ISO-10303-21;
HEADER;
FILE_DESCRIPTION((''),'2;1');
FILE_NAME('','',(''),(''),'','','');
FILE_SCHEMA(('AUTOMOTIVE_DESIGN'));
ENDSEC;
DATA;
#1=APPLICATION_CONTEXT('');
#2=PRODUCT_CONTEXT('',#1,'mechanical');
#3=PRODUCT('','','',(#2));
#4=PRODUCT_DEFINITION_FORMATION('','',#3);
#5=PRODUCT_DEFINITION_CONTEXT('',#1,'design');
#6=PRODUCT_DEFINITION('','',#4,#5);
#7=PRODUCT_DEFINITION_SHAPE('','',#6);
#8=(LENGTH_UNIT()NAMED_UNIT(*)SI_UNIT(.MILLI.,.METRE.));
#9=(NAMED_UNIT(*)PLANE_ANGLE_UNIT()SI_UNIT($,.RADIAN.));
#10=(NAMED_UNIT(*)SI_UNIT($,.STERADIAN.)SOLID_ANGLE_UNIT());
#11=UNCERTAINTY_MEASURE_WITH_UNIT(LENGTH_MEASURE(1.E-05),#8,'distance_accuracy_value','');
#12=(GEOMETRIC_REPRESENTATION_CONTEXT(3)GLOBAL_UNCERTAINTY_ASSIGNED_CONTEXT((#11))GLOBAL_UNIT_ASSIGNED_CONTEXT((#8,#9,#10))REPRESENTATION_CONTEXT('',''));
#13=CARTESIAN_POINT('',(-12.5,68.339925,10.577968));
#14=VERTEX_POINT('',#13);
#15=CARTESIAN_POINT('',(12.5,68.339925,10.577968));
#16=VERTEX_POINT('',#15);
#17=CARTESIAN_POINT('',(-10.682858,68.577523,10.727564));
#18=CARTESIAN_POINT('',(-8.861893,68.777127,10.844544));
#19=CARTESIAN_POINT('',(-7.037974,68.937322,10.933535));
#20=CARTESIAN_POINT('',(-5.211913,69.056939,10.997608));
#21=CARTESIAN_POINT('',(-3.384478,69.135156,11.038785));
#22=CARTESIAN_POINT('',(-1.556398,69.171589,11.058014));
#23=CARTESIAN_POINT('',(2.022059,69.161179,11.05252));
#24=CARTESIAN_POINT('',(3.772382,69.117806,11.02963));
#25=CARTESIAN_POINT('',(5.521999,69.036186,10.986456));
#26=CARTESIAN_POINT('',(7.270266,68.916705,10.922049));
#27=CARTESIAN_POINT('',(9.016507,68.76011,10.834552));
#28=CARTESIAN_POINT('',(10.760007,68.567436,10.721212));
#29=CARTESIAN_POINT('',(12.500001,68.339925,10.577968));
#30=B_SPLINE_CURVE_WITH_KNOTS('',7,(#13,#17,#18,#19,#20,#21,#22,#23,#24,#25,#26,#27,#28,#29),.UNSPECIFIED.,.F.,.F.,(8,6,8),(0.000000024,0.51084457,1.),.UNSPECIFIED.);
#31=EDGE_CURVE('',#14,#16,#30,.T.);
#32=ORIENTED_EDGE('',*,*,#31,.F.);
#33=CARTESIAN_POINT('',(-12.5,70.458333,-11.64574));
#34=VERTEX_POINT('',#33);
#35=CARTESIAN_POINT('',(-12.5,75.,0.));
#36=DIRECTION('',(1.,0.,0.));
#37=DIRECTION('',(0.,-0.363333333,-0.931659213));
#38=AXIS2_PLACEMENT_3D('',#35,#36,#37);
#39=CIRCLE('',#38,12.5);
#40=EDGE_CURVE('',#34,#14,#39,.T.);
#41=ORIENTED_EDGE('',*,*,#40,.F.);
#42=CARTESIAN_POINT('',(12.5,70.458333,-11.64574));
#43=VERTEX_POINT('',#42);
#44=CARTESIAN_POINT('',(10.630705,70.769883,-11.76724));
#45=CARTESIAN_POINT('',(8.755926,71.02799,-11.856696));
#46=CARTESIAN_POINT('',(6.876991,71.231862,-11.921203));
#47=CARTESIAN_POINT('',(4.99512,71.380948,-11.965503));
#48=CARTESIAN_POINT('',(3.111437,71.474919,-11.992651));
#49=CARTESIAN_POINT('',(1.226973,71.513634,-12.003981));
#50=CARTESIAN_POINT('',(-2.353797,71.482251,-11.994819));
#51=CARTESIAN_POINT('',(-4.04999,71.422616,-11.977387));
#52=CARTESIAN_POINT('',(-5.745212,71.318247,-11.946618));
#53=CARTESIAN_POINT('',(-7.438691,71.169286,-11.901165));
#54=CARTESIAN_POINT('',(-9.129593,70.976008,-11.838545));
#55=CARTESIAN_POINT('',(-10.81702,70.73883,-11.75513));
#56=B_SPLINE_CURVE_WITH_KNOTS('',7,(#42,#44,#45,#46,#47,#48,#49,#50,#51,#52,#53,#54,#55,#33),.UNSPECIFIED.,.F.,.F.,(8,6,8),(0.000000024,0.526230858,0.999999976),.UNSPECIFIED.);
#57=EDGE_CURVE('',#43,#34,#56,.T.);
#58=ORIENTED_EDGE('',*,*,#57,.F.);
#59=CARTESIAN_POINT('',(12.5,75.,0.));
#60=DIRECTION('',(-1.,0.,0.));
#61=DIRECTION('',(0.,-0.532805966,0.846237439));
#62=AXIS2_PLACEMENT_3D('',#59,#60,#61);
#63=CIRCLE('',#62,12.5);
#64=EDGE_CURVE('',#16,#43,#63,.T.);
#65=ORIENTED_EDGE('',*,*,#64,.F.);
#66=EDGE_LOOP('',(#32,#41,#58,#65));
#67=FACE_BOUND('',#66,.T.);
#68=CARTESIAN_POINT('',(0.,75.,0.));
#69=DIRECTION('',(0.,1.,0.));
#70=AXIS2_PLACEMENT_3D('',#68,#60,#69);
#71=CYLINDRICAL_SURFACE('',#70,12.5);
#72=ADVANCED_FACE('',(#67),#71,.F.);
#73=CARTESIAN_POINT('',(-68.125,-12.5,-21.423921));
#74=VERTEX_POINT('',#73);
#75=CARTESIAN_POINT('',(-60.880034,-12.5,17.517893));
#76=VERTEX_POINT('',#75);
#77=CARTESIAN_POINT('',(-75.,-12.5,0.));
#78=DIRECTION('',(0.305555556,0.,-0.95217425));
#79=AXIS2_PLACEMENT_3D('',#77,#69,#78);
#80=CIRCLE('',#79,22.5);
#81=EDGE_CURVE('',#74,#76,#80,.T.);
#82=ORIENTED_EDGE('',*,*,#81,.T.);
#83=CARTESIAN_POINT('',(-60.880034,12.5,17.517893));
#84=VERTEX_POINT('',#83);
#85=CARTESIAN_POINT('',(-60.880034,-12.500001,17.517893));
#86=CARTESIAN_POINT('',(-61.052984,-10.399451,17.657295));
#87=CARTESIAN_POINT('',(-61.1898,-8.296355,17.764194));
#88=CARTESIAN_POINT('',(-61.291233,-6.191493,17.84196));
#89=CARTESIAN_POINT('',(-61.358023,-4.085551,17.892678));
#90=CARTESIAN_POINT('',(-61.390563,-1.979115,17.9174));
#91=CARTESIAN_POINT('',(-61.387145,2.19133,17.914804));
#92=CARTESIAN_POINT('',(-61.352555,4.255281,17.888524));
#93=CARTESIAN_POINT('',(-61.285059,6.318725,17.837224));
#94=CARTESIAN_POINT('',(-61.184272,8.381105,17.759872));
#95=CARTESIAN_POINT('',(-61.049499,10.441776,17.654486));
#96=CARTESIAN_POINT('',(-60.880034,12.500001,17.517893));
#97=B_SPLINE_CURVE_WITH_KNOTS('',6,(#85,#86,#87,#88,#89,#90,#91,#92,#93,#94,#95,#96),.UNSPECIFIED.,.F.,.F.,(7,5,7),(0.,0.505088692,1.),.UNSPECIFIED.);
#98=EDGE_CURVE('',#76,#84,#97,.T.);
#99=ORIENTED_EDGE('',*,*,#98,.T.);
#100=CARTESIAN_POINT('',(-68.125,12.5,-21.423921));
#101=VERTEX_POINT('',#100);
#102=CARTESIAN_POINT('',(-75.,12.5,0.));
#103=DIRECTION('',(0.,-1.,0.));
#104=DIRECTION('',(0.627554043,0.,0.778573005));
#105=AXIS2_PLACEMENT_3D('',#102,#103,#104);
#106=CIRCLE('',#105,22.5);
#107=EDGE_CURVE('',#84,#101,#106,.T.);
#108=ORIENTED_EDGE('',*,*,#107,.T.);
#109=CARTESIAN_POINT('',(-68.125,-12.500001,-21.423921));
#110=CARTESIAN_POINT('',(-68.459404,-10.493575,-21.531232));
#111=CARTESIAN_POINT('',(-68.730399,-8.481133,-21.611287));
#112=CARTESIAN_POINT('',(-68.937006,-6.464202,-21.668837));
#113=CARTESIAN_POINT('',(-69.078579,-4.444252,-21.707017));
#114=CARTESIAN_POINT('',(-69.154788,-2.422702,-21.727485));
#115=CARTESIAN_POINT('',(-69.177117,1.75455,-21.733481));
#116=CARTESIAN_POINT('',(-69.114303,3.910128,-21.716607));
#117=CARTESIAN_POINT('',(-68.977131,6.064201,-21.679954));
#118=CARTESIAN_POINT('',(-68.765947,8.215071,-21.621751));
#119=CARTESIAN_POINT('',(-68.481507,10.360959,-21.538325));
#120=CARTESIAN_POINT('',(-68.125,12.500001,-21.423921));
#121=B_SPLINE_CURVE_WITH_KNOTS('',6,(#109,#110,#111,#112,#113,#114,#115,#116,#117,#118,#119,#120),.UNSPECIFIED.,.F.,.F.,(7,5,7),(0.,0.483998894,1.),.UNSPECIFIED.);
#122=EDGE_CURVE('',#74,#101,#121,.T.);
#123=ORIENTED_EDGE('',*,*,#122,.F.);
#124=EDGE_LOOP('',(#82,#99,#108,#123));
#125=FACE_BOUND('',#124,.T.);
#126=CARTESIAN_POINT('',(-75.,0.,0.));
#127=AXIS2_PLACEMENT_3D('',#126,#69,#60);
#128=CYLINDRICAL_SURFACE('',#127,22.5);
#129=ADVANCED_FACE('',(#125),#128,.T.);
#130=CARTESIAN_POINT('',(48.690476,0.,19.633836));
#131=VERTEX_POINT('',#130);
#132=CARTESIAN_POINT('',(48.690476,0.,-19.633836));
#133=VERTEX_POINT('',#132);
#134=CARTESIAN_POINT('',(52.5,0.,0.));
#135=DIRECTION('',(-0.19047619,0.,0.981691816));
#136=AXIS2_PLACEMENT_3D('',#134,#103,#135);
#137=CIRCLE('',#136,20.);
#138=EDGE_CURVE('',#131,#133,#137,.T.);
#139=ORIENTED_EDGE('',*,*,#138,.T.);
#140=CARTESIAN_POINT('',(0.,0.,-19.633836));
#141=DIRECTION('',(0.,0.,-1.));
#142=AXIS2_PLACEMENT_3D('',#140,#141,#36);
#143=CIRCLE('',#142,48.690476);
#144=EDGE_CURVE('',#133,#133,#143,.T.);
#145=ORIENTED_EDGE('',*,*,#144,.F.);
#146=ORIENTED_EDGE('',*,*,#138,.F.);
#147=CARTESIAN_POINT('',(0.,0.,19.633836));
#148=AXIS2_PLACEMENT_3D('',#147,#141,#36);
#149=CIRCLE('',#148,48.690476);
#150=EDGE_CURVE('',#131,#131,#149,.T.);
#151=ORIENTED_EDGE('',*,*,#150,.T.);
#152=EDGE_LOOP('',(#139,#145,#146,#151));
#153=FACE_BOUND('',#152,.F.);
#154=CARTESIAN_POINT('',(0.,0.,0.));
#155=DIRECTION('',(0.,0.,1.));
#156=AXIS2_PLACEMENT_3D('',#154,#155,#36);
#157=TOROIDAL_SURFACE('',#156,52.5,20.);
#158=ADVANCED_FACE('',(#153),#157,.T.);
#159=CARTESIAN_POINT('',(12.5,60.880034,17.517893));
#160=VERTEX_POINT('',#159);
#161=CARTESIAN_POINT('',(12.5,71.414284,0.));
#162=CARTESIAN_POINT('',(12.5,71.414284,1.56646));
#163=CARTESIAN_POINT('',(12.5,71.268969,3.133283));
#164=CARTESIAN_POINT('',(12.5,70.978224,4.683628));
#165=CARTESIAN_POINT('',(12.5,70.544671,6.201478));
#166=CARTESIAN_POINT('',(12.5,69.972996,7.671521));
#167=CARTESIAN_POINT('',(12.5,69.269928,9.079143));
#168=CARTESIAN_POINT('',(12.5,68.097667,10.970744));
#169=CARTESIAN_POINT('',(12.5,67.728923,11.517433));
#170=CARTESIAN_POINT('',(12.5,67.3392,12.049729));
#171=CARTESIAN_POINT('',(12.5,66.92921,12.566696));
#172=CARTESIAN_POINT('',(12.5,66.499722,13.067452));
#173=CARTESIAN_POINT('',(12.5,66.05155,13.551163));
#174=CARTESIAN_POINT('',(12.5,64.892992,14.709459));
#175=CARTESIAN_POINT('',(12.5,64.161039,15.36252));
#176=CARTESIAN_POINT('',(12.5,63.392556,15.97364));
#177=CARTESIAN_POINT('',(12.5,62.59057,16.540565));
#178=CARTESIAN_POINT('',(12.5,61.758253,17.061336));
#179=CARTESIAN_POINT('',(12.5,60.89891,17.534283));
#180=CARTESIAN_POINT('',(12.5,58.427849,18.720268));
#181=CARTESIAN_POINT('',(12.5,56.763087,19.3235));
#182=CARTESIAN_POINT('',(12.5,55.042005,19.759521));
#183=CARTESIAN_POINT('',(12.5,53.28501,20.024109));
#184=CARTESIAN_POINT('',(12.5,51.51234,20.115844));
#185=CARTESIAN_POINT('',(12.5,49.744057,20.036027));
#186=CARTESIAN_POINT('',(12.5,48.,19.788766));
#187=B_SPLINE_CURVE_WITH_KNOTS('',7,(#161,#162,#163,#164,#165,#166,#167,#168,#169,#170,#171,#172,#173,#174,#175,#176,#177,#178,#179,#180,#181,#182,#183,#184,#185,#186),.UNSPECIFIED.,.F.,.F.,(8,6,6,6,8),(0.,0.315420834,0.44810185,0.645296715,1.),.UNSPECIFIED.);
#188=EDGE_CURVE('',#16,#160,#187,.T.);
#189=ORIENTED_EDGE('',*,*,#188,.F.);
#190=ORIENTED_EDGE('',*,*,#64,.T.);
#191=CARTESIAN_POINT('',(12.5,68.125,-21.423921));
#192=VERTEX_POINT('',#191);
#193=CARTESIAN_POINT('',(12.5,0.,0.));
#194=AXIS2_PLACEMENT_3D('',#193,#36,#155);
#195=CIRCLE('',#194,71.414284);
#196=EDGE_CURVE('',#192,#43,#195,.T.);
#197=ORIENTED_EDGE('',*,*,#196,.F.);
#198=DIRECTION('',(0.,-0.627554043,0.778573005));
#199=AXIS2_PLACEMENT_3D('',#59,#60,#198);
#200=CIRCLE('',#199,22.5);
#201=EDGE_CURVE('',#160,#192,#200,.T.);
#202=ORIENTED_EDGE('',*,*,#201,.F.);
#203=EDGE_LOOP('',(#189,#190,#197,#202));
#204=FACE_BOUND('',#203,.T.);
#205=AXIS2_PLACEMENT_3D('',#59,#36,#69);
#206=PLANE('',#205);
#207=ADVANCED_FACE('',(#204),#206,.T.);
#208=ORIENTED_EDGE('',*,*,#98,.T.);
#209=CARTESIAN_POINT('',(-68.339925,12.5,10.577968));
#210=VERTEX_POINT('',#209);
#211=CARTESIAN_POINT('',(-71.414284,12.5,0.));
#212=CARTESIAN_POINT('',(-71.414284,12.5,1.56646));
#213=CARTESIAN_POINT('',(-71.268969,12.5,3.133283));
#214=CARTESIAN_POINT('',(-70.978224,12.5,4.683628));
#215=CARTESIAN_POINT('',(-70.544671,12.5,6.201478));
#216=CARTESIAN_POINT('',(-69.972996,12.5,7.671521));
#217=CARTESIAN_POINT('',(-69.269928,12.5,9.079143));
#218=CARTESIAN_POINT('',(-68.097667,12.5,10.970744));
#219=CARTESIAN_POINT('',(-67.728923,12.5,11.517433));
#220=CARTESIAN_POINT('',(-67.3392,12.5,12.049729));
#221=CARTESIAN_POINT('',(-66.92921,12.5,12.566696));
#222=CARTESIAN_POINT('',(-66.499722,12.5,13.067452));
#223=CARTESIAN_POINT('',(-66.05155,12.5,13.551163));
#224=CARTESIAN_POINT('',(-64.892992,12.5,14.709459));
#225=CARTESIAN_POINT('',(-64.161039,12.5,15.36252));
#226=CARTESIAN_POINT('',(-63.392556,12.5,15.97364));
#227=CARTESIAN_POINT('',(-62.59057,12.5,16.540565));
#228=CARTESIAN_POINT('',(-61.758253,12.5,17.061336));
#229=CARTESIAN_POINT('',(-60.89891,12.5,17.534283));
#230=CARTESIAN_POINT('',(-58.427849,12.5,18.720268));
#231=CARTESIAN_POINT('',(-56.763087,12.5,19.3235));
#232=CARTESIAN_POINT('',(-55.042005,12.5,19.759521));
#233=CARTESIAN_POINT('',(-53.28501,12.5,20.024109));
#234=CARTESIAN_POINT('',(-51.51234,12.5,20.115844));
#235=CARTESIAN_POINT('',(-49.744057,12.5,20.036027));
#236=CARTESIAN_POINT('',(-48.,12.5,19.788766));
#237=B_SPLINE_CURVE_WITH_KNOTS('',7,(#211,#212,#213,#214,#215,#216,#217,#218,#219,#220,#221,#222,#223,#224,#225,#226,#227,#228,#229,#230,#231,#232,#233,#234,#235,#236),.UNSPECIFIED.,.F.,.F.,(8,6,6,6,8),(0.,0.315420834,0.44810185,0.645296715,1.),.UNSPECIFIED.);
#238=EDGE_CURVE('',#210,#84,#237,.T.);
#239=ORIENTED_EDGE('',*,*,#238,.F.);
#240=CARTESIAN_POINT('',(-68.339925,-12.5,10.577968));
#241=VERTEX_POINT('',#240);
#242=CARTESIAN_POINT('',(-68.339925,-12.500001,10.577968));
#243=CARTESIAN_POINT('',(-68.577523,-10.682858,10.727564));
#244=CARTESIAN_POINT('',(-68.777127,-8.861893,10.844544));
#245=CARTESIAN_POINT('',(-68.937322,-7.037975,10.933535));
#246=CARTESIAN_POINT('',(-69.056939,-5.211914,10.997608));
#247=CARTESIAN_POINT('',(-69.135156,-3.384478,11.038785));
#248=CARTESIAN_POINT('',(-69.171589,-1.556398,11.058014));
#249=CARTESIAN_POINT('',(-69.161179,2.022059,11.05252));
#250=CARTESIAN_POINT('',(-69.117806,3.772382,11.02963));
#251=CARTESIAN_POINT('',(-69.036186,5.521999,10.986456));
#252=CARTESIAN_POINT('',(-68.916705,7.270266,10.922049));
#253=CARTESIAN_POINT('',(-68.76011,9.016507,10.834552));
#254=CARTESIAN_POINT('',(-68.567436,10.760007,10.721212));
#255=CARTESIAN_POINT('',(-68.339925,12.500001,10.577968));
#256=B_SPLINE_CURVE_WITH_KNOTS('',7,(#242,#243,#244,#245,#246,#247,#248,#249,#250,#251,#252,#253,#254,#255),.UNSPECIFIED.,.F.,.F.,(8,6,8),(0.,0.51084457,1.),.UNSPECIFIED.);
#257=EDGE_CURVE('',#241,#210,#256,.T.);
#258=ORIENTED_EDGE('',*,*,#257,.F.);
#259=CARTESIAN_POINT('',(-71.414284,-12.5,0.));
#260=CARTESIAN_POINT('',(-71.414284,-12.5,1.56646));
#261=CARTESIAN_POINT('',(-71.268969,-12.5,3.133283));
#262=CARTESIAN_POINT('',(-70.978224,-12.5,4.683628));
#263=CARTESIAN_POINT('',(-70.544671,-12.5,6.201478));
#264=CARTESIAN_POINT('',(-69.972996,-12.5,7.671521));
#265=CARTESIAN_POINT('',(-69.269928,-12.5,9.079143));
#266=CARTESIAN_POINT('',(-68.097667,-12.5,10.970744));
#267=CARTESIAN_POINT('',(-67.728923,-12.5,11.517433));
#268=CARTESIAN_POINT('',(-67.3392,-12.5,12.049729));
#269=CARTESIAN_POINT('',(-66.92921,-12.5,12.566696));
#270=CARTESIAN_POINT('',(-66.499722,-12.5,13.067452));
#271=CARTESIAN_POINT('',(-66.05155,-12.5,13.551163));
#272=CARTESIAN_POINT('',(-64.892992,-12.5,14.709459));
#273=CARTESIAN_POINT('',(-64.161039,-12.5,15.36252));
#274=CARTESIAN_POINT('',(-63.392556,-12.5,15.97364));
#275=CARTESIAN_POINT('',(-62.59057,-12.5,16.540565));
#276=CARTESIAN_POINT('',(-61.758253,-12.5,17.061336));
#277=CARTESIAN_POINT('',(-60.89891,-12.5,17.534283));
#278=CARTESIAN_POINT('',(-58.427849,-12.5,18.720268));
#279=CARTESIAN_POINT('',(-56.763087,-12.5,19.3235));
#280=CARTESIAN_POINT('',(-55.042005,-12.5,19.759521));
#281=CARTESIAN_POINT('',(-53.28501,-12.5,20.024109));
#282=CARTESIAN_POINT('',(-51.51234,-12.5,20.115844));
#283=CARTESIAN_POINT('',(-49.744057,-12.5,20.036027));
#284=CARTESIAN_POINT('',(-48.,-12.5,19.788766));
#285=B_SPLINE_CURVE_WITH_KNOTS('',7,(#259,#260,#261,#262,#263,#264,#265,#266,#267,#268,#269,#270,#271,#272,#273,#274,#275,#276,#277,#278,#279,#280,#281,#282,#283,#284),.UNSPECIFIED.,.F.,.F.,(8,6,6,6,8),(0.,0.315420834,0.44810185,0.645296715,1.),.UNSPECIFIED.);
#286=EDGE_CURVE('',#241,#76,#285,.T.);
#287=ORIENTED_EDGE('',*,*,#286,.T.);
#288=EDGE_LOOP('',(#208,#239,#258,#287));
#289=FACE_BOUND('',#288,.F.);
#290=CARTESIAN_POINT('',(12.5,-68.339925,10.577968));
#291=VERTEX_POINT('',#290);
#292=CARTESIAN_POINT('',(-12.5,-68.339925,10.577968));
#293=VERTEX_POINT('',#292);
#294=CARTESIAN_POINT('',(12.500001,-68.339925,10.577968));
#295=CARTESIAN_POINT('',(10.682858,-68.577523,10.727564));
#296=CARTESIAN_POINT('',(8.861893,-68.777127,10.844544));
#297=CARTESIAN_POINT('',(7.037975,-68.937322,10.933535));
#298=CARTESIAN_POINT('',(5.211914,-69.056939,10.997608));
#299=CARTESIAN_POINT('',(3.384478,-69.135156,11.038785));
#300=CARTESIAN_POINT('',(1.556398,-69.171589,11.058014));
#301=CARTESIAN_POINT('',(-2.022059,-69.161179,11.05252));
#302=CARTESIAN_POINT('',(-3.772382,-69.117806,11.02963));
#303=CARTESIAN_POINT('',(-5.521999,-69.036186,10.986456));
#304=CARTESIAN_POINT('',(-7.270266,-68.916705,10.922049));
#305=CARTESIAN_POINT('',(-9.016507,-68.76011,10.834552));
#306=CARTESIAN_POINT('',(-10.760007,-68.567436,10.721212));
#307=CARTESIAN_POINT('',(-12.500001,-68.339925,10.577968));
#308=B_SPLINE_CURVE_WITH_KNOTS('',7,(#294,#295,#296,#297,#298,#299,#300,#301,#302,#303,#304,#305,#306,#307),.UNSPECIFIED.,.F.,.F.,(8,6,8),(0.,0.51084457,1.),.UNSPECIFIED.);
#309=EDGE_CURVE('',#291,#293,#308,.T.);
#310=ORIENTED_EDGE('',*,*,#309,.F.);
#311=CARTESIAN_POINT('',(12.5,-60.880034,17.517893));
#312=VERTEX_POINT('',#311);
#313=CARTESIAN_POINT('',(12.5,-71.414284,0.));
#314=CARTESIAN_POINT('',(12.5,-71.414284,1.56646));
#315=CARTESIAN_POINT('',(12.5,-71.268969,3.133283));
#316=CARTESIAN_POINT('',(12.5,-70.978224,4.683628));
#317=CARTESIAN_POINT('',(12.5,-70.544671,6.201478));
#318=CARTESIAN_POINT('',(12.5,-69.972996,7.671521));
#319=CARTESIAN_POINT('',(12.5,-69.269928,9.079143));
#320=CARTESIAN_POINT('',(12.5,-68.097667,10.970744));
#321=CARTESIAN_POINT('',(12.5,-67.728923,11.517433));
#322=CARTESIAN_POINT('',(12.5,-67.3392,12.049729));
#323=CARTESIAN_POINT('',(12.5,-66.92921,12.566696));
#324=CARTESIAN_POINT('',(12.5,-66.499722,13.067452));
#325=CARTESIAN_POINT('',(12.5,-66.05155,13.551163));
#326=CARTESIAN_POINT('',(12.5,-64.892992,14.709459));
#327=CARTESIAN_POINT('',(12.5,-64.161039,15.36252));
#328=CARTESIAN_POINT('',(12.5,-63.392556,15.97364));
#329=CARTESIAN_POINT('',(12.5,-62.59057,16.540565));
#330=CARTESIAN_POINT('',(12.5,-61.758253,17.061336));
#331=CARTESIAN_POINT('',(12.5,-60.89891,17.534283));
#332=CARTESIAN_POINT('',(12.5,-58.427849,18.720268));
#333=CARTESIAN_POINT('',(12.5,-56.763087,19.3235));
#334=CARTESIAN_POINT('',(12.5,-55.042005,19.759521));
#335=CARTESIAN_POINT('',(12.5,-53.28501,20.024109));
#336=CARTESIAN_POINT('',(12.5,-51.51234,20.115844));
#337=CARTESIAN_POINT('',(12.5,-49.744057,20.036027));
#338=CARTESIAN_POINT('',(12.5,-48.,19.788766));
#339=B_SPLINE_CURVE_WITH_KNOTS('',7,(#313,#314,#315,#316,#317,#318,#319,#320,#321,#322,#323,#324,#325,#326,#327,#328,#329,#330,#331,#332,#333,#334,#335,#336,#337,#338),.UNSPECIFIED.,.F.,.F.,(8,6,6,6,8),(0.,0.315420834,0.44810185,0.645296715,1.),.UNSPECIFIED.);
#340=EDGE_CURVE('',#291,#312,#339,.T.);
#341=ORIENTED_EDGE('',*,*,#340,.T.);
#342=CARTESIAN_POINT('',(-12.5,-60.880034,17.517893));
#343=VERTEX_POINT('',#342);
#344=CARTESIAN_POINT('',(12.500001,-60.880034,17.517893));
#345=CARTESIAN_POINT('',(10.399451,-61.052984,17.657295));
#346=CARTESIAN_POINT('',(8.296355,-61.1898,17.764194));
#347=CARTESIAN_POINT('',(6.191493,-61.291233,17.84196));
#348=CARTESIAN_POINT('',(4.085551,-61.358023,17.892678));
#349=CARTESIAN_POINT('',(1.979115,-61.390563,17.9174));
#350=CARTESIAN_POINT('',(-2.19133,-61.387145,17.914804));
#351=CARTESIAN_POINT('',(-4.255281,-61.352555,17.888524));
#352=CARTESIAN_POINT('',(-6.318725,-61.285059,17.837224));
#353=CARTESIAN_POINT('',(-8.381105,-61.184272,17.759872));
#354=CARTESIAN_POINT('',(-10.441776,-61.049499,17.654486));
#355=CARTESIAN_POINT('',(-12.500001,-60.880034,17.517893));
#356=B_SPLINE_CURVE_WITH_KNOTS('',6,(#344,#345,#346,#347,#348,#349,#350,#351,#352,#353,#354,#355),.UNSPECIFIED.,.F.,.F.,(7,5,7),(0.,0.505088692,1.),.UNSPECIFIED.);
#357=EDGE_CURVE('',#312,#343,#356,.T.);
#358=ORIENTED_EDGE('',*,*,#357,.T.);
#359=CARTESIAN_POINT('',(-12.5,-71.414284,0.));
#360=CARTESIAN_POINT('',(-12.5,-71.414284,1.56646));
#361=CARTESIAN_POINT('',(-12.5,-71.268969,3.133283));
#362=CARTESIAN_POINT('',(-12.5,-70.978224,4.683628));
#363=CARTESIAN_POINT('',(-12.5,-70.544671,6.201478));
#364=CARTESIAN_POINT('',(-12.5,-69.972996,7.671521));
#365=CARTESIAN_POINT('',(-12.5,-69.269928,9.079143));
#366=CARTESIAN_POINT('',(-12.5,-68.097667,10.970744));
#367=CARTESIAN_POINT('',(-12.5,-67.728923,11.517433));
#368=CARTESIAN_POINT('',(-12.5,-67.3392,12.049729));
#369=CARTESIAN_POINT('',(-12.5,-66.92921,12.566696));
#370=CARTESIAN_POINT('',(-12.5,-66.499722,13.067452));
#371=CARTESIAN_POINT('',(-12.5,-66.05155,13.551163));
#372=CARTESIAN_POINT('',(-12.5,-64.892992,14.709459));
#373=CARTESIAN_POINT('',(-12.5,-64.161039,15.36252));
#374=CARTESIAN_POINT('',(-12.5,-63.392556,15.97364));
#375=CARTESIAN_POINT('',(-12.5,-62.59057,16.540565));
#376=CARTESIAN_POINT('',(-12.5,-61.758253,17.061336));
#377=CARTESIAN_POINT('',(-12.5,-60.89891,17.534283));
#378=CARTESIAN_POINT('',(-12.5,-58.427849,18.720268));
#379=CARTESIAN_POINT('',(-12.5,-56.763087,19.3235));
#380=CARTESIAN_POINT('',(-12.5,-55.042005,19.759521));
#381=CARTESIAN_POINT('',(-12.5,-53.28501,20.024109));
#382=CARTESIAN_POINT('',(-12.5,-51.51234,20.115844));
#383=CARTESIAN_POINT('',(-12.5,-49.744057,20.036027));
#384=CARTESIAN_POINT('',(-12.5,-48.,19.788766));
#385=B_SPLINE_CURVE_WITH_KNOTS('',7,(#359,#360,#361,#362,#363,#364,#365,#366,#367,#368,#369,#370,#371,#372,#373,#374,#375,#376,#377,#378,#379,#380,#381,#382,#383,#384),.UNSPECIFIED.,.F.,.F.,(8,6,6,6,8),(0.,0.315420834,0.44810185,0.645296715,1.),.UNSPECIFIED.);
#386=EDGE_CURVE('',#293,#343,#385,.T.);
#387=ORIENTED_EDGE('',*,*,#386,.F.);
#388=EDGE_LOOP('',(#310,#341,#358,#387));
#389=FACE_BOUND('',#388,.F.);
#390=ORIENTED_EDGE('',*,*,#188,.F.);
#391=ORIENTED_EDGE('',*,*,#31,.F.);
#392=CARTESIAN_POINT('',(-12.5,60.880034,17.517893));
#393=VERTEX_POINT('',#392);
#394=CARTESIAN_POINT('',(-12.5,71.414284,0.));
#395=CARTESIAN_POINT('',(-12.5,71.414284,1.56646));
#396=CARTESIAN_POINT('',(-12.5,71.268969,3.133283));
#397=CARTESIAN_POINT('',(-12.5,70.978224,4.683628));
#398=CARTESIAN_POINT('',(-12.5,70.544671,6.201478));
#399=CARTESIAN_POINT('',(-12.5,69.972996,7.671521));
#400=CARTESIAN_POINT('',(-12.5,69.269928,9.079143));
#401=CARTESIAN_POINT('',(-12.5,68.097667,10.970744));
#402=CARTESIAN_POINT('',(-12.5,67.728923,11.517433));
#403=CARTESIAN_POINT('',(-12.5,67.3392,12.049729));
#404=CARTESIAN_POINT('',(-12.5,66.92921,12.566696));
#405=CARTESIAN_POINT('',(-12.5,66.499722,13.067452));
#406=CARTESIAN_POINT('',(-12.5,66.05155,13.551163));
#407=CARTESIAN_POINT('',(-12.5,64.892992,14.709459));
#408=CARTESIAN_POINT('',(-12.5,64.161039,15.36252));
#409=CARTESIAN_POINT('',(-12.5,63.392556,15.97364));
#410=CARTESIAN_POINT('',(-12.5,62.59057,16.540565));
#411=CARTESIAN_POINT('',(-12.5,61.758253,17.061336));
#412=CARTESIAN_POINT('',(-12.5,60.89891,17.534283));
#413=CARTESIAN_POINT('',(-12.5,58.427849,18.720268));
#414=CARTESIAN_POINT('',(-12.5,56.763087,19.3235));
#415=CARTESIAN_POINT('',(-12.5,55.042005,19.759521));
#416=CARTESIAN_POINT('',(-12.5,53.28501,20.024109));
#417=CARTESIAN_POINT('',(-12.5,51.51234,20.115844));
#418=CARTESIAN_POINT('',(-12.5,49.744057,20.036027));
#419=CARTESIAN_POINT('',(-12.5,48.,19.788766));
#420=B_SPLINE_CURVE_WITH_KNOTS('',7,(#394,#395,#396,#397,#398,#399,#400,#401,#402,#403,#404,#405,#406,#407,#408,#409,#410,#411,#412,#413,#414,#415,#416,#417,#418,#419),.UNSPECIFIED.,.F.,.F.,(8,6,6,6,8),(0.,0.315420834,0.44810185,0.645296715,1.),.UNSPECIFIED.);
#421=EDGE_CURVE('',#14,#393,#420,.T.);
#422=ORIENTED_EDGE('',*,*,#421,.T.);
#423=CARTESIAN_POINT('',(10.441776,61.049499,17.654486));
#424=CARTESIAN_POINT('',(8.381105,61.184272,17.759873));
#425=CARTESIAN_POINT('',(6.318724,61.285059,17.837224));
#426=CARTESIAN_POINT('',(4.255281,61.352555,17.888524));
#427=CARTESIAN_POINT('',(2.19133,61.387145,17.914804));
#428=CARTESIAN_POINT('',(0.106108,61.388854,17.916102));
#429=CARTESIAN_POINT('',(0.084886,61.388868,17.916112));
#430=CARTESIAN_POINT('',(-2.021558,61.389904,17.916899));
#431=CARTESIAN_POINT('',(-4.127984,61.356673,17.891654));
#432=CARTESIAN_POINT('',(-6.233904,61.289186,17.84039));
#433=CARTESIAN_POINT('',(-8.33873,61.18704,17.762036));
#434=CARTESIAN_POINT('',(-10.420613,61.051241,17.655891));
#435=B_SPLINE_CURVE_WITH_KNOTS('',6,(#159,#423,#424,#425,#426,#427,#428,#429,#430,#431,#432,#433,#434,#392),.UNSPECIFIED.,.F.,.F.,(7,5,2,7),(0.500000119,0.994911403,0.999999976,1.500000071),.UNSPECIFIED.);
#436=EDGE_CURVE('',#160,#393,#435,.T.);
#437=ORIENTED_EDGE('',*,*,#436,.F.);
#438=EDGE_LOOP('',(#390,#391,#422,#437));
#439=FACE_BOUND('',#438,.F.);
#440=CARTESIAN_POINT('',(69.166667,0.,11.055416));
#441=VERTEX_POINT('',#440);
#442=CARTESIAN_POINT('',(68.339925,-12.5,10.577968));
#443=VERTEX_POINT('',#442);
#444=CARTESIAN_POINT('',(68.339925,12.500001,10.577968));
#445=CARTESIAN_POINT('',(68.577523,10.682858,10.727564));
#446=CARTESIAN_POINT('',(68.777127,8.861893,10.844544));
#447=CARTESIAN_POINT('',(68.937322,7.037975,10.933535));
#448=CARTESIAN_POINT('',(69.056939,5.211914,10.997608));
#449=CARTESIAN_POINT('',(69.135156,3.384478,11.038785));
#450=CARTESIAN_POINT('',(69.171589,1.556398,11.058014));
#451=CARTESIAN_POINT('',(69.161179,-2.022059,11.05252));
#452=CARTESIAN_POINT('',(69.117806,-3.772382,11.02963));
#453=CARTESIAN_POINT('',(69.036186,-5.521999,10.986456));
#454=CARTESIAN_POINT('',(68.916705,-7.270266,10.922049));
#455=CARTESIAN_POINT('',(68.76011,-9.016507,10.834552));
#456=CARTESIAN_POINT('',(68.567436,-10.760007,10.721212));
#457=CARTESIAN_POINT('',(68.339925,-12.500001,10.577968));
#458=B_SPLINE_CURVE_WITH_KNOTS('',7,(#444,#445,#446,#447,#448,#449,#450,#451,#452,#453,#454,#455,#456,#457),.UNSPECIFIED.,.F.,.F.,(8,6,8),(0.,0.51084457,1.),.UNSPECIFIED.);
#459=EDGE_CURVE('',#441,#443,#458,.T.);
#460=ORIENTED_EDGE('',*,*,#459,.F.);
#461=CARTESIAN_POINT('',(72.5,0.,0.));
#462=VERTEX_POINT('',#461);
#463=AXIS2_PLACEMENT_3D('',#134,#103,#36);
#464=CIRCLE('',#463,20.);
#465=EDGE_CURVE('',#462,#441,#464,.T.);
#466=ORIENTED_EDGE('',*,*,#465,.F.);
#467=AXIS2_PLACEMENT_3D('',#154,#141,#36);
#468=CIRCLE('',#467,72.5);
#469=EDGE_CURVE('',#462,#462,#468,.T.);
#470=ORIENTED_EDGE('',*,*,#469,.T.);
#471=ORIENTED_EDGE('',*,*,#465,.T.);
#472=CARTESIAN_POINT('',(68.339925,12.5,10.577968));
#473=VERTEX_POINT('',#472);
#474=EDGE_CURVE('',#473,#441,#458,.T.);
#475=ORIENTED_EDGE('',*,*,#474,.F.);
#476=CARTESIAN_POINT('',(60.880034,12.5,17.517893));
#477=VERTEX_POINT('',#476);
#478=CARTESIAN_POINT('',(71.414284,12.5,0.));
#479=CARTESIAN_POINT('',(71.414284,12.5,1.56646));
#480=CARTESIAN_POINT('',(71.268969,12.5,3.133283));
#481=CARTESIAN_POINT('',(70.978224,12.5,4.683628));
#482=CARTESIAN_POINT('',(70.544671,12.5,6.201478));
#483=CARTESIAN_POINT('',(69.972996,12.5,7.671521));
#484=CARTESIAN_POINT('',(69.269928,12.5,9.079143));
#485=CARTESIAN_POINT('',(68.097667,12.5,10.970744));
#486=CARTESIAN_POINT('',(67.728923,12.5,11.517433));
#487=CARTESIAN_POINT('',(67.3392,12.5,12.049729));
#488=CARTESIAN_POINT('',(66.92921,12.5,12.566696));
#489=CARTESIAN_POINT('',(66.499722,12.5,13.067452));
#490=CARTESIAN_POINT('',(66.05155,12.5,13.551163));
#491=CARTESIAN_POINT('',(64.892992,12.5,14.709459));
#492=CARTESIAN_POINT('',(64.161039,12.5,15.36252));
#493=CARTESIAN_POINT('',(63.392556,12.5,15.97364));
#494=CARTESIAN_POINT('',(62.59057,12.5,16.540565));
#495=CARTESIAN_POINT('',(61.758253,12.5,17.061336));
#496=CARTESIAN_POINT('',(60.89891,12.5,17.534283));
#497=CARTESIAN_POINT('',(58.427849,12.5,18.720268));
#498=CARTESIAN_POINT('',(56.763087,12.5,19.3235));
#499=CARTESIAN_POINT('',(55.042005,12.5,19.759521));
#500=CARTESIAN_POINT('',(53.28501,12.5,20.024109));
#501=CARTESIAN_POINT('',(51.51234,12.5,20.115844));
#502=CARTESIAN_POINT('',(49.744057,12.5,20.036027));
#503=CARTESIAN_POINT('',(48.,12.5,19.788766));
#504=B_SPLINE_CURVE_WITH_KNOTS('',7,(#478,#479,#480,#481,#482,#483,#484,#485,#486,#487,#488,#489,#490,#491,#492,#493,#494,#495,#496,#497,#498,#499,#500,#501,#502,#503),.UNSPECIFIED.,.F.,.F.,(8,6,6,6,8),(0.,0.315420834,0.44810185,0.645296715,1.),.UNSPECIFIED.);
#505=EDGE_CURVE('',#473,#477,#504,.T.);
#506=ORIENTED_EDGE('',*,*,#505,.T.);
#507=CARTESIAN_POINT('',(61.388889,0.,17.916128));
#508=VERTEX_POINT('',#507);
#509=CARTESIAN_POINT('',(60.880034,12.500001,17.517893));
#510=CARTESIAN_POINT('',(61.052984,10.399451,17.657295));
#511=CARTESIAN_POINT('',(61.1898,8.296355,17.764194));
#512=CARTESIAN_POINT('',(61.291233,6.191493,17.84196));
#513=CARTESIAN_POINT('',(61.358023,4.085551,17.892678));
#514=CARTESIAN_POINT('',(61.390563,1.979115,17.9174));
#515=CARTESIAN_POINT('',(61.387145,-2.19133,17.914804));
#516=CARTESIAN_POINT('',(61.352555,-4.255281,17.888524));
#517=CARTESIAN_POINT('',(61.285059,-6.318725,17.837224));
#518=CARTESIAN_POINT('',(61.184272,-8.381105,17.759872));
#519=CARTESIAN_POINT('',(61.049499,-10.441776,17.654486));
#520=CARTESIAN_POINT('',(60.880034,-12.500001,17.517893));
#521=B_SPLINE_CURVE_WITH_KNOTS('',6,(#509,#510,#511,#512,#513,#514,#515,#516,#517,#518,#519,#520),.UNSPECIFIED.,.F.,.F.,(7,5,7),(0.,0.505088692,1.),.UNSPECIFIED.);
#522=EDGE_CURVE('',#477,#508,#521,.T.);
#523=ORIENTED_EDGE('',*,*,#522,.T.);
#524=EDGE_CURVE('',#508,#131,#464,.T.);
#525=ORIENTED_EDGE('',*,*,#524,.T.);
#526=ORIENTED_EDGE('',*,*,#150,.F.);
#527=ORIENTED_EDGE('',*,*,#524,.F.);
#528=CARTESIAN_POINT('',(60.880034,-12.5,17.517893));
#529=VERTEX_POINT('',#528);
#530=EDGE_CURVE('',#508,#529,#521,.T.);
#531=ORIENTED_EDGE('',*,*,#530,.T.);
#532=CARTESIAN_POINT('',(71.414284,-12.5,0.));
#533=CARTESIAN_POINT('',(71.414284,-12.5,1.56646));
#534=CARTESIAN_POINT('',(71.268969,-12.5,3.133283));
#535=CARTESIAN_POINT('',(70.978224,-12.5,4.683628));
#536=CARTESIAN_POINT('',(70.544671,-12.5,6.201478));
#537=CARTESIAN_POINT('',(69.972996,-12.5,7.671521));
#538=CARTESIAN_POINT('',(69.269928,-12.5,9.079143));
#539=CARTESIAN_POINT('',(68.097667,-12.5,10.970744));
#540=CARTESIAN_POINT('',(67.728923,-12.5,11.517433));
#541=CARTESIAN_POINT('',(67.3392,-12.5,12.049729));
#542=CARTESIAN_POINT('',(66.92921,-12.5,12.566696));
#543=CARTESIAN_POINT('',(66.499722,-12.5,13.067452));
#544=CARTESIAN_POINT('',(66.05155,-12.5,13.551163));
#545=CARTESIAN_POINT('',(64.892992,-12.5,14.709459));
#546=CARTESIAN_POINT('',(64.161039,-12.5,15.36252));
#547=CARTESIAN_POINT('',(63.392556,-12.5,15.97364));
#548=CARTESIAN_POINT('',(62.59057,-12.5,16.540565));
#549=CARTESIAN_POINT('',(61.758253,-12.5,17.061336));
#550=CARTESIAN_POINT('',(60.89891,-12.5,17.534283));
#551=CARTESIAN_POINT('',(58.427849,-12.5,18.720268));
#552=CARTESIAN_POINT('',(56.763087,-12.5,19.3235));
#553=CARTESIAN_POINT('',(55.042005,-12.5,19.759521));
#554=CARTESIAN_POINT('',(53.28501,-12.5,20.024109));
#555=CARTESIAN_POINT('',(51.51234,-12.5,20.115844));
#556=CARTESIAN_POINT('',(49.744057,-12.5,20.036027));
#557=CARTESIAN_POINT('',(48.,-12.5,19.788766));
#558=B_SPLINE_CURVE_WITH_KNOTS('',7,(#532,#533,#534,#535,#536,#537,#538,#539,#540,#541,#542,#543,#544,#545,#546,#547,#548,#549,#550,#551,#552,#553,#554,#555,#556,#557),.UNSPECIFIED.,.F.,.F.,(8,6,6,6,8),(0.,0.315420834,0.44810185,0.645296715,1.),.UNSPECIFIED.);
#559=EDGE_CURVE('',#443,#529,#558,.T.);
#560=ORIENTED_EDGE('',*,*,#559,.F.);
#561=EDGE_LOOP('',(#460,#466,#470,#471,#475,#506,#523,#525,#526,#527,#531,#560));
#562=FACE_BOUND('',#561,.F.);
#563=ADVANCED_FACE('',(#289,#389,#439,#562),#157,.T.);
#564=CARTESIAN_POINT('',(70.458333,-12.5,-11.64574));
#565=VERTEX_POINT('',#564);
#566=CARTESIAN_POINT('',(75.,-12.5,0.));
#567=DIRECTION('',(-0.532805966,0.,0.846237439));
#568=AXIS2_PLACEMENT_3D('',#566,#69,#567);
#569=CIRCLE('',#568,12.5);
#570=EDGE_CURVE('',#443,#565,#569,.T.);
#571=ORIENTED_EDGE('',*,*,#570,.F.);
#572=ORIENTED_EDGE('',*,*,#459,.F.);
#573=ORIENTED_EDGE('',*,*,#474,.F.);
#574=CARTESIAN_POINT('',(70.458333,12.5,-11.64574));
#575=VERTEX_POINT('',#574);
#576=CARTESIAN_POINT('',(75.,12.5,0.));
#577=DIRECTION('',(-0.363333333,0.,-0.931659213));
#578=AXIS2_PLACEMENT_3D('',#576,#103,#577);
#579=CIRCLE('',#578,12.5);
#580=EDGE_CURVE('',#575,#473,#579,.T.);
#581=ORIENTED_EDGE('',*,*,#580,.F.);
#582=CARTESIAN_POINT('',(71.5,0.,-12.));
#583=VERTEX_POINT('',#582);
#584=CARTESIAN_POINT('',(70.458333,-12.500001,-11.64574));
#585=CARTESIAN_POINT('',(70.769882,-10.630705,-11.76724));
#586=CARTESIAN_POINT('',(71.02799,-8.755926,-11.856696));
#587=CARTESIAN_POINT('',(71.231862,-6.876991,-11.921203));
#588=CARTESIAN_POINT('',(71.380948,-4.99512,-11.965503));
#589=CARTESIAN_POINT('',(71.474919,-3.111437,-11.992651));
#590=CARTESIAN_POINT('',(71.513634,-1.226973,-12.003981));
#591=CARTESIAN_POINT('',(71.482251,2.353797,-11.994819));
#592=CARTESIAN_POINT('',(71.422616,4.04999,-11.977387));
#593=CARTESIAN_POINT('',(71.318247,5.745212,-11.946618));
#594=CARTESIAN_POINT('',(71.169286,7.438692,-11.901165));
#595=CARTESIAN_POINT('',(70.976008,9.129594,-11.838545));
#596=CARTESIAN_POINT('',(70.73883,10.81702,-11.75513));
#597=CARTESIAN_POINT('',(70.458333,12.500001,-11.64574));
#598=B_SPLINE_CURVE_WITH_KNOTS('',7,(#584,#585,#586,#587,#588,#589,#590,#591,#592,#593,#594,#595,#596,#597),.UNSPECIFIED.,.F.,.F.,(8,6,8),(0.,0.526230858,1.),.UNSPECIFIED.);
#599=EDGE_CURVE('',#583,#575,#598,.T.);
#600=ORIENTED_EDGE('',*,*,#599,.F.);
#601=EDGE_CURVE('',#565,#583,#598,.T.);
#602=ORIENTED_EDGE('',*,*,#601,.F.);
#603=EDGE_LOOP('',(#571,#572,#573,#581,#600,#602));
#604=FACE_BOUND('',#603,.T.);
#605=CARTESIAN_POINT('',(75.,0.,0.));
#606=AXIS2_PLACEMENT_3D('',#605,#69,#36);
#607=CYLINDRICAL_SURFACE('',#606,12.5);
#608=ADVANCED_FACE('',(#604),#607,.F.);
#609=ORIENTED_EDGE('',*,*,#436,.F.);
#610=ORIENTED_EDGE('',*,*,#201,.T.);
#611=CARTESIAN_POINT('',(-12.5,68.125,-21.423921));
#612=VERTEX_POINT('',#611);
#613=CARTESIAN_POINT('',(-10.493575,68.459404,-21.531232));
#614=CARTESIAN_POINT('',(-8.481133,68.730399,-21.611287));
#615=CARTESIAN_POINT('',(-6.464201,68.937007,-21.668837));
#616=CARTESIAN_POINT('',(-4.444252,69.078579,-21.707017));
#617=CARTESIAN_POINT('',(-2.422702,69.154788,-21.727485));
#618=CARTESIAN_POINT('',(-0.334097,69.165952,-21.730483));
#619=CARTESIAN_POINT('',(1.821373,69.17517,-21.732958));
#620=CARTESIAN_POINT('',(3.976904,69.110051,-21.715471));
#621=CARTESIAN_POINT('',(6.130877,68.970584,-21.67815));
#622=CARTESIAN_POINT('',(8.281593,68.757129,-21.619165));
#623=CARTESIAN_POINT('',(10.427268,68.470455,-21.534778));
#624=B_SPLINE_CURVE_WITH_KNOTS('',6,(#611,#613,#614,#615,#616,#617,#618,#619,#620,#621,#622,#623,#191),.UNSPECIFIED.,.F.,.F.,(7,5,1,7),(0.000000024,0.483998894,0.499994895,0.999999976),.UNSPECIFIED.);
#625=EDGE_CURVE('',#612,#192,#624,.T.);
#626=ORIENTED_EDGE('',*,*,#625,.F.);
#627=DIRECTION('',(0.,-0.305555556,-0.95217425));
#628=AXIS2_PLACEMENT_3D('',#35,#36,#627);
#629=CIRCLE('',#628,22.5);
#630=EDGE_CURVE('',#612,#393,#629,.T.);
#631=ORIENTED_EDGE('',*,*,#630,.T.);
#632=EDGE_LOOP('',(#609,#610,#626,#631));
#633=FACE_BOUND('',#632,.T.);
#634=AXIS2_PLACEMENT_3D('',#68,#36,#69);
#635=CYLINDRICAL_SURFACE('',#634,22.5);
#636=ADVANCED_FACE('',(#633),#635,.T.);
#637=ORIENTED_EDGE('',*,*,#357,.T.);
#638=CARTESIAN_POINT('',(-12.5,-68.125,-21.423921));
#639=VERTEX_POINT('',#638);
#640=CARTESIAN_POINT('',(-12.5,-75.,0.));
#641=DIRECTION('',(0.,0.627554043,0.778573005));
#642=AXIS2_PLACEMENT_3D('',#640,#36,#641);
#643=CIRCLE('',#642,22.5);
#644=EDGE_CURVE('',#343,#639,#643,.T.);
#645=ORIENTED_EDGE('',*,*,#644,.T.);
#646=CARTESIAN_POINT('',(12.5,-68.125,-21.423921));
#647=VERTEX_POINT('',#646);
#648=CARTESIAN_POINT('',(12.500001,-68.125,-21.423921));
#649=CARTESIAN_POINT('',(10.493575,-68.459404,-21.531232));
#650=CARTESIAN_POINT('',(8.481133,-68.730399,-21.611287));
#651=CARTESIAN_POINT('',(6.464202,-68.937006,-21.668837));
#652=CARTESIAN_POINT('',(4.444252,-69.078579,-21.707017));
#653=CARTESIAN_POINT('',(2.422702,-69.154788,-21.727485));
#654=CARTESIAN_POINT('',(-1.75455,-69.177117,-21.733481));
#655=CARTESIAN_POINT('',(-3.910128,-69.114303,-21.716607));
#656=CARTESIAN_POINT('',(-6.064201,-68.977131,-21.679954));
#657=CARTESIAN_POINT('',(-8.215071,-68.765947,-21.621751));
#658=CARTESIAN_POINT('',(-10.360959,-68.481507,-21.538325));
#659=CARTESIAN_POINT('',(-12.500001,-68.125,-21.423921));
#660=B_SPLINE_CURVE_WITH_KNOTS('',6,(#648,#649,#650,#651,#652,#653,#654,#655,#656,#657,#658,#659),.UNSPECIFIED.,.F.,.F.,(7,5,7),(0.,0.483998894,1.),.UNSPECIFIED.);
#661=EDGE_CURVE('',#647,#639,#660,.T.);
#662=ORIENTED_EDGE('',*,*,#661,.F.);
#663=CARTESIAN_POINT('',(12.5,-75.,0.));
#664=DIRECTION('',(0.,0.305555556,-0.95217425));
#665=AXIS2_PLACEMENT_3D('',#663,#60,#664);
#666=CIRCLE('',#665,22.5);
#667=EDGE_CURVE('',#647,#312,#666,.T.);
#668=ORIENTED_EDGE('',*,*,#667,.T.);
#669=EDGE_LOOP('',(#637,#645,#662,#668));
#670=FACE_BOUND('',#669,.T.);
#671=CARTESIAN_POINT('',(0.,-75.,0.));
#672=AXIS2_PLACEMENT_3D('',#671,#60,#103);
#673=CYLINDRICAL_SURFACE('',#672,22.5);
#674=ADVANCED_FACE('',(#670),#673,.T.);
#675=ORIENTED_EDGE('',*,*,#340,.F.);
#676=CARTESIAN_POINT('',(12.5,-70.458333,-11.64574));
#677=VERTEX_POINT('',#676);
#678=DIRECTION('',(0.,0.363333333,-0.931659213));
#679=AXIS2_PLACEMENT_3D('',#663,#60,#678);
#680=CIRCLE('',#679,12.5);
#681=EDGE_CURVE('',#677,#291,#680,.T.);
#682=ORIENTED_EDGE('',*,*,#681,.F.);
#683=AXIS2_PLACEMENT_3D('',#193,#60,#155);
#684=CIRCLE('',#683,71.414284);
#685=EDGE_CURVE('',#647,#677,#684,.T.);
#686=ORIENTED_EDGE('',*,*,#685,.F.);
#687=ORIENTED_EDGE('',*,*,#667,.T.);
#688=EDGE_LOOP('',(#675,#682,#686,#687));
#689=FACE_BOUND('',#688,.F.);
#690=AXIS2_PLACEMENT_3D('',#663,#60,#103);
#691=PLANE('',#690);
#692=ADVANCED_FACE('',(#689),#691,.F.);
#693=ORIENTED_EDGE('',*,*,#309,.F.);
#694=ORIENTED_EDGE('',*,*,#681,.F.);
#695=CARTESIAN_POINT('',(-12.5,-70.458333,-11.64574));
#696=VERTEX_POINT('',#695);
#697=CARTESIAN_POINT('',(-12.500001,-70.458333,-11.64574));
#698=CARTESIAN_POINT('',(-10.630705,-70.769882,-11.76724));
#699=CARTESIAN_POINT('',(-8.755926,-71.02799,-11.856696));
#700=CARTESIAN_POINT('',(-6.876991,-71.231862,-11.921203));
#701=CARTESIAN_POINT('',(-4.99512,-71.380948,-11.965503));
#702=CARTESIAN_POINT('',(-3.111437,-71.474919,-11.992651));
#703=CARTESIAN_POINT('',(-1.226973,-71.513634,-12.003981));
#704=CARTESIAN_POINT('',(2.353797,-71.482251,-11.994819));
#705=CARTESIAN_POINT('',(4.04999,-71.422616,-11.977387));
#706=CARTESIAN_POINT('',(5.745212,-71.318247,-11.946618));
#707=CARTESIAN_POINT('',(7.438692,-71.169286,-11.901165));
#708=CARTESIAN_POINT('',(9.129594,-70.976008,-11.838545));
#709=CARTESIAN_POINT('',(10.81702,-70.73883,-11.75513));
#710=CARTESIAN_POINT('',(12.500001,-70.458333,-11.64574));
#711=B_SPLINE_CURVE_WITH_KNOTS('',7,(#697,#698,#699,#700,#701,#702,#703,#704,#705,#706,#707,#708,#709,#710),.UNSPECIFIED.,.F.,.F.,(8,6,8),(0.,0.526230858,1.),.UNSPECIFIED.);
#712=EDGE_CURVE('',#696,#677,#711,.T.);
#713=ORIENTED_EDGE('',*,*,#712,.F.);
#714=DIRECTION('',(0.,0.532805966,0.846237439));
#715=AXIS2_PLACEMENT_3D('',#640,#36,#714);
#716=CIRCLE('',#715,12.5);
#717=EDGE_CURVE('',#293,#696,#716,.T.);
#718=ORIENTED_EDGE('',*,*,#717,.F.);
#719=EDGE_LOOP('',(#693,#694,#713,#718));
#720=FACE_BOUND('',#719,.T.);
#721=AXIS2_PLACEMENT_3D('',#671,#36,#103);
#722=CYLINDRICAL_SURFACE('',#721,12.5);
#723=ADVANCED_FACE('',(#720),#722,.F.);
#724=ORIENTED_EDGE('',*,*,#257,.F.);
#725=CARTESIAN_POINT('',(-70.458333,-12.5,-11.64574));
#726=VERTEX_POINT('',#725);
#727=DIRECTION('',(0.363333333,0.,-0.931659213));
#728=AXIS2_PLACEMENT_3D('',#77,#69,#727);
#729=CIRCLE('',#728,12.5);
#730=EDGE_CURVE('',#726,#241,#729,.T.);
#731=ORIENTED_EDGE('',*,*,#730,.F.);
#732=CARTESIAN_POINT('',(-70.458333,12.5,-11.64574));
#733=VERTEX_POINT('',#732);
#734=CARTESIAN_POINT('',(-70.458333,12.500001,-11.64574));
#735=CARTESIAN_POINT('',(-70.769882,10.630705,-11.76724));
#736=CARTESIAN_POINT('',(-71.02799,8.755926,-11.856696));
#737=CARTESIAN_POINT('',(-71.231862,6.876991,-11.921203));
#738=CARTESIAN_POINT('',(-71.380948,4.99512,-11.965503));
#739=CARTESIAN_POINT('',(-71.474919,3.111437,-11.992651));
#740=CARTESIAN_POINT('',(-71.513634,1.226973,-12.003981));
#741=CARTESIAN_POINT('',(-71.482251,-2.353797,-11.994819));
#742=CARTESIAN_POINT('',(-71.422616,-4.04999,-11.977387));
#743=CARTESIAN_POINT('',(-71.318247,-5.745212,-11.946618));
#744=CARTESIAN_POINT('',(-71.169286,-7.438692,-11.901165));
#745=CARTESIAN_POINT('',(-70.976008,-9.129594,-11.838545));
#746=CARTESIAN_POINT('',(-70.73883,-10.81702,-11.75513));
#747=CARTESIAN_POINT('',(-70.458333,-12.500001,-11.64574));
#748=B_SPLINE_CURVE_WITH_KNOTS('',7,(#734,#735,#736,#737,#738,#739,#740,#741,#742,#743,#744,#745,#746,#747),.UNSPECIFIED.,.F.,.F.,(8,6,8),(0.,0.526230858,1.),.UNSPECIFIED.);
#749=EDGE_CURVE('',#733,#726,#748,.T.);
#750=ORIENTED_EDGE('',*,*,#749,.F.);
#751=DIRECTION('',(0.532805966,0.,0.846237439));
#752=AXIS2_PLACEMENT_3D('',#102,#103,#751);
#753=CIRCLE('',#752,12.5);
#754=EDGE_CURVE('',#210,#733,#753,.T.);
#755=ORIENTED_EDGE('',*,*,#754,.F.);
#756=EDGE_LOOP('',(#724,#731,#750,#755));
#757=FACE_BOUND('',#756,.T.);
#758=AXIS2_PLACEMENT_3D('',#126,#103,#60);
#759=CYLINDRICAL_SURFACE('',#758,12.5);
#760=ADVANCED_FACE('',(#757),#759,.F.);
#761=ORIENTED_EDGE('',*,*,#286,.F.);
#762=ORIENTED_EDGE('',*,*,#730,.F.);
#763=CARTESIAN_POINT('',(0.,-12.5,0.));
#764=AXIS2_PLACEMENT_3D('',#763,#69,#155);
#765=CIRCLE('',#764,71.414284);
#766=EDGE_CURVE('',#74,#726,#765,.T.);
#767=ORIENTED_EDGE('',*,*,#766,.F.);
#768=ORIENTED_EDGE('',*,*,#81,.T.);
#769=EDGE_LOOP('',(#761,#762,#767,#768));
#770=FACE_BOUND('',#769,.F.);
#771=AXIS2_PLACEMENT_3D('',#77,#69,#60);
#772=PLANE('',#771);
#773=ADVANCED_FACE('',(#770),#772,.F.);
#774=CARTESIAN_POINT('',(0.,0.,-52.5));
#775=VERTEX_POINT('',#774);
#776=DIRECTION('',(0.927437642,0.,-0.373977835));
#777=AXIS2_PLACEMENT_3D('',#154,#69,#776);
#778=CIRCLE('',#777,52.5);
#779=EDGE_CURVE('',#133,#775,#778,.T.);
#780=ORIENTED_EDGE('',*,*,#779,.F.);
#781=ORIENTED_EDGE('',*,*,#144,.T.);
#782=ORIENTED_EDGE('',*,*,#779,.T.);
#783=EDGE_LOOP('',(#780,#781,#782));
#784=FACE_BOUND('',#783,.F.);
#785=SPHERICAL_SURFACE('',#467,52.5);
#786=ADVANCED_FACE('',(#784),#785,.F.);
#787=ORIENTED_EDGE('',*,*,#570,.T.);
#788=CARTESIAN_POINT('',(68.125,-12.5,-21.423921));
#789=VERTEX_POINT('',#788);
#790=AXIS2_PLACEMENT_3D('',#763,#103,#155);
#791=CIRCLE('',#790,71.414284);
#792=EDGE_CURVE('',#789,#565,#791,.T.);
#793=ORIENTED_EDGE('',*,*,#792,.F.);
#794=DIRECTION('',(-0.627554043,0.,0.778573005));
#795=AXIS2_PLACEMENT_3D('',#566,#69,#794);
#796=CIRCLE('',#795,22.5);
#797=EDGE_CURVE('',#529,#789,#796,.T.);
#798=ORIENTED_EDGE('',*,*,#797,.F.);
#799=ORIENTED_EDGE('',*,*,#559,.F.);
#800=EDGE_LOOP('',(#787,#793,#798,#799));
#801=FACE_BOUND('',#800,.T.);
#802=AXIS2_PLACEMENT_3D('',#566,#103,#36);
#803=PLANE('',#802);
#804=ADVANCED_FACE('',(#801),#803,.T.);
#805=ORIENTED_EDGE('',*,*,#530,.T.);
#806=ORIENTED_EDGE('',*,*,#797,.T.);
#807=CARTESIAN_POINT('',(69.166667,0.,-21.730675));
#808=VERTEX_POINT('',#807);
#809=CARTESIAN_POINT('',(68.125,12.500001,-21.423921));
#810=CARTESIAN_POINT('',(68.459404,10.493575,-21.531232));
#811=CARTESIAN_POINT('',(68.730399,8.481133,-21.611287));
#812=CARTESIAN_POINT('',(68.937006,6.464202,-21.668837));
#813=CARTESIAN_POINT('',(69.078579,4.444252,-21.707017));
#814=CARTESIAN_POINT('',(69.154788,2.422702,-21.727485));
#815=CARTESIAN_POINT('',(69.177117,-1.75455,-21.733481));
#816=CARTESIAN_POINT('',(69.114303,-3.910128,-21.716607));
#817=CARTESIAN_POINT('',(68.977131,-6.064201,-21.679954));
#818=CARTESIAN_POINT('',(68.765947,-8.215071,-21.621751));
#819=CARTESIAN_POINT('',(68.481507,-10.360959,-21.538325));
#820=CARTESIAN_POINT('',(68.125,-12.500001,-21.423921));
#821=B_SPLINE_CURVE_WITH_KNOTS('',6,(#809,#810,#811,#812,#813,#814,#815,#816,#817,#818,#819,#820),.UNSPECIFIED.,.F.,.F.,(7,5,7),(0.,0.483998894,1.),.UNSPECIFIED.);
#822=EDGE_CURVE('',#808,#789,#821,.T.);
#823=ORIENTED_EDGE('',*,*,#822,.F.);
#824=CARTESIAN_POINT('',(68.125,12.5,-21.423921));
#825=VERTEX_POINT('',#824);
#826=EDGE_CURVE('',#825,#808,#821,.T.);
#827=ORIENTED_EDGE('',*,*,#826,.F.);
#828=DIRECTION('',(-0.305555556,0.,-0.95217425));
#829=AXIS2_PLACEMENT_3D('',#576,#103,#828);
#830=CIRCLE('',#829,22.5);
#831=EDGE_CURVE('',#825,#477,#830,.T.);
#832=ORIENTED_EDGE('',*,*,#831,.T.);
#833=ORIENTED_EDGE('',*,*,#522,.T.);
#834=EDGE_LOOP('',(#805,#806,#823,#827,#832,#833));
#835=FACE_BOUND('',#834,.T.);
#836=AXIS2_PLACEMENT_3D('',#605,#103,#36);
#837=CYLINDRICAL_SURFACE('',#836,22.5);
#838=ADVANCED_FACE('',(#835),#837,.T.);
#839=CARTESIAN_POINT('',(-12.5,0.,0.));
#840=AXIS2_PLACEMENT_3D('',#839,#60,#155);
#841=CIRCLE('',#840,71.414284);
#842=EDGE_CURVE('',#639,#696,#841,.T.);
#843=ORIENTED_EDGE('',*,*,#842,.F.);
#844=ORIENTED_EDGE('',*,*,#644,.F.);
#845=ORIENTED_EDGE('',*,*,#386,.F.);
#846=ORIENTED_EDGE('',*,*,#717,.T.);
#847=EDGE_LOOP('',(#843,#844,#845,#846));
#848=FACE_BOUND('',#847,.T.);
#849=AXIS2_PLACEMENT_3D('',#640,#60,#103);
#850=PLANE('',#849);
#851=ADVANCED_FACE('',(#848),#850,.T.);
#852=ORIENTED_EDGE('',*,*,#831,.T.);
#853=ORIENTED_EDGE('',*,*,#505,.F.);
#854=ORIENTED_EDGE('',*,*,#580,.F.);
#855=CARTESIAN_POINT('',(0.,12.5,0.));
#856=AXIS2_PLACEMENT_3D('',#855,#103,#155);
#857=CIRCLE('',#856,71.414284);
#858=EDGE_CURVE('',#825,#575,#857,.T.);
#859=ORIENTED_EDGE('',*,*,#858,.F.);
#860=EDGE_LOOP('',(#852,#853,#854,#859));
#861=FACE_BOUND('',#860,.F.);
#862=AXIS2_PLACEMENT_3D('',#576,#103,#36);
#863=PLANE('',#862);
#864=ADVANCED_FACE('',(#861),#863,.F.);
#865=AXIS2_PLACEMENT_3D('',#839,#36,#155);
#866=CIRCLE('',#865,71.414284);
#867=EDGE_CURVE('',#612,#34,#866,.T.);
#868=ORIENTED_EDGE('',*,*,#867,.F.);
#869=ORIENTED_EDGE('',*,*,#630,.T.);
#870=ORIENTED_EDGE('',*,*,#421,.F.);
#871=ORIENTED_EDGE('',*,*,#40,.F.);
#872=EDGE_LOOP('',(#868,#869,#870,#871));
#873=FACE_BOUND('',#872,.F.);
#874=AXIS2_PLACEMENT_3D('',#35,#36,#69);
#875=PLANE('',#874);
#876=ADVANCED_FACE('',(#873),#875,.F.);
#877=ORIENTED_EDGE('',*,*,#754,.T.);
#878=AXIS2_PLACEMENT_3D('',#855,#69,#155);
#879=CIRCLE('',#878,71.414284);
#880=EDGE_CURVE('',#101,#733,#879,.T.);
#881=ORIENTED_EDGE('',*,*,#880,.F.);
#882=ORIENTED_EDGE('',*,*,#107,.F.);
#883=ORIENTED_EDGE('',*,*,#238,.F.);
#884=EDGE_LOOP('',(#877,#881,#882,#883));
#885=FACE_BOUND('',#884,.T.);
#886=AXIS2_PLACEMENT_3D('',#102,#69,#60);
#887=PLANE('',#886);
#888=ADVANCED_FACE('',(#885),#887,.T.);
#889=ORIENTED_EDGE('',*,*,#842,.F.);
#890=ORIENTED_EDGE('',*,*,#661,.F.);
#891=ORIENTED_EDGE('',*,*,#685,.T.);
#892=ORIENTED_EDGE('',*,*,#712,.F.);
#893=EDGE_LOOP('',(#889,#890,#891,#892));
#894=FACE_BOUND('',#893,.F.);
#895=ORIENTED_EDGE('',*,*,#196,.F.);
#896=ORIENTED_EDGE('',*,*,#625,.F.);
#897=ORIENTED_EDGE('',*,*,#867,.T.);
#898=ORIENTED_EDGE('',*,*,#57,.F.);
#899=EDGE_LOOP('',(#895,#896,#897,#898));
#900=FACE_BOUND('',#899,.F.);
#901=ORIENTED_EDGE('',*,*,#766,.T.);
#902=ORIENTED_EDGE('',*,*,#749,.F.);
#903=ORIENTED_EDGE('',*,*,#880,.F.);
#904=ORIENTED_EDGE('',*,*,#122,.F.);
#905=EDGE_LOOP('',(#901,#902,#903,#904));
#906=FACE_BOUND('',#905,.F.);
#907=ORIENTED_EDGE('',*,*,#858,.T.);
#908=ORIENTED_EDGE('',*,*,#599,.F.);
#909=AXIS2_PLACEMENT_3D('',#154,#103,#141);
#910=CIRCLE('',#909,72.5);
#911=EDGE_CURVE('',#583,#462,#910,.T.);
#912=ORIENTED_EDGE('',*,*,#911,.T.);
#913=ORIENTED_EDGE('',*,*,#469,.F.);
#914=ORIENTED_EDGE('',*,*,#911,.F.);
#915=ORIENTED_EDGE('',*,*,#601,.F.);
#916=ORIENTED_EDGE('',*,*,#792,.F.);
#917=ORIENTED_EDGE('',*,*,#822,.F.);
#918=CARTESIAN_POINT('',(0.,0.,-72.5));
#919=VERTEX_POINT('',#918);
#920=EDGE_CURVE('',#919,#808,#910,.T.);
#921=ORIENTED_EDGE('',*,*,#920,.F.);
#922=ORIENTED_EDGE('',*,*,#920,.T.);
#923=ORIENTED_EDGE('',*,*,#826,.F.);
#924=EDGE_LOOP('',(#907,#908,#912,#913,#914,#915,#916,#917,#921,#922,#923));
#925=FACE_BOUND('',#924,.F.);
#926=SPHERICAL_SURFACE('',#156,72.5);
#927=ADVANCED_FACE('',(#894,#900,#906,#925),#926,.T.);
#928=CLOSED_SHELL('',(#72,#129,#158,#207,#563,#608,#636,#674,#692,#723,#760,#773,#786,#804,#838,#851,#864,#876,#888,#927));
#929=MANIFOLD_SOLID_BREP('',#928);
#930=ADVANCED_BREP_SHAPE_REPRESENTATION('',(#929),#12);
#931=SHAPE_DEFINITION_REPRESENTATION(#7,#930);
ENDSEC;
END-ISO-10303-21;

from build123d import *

# Parameters (mm, degrees)
F2_R     = 22.5
F2_R_2   = 12.5
F3_DEPTH = 12.5
F4_COUNT = 4
F4_ANGLE = 270


with BuildPart() as f1:
    # F0 (on Front) → F1 (revolve)
    with BuildSketch(Plane.XZ):
        with BuildLine():
            ThreePointArc((0, -72.5), (51.265241636, -51.265241636), (72.5, 0))
            ThreePointArc((72.5, 0), (65.2241802056, 15.4303349962), (48.6904761905, 19.6338363125))
            ThreePointArc((48.6904761905, 19.6338363125), (32.5, 0), (48.6904761905, -19.6338363125))
            ThreePointArc((48.6904761905, -19.6338363125), (29.3723815309, -43.5145171546), (0, -52.5))
            Line((0, -52.5), (0, -72.5))
        make_face()
    revolve(axis=Axis((0, 0, 0), (0, 0, -1)))

    # F2 (on Right) → F3 (join, symmetric)
    with BuildSketch(Plane.YZ):
        with Locations((75, 0)):
            Circle(F2_R)
        with Locations((75, 0)):
            Circle(F2_R_2, mode=Mode.SUBTRACT)
    extrude(amount=F3_DEPTH, both=True)

    # F4: F1 ×4 about axis
    f4_axis = Axis((0, 0, 0), (0, 0, -1))


with BuildPart() as f1_1:
    add(f1.part)
    for i in range(1, F4_COUNT):
        add(f1.part.rotate(f4_axis, i * F4_ANGLE / (F4_COUNT - 1)))


solid = f1_1.part
